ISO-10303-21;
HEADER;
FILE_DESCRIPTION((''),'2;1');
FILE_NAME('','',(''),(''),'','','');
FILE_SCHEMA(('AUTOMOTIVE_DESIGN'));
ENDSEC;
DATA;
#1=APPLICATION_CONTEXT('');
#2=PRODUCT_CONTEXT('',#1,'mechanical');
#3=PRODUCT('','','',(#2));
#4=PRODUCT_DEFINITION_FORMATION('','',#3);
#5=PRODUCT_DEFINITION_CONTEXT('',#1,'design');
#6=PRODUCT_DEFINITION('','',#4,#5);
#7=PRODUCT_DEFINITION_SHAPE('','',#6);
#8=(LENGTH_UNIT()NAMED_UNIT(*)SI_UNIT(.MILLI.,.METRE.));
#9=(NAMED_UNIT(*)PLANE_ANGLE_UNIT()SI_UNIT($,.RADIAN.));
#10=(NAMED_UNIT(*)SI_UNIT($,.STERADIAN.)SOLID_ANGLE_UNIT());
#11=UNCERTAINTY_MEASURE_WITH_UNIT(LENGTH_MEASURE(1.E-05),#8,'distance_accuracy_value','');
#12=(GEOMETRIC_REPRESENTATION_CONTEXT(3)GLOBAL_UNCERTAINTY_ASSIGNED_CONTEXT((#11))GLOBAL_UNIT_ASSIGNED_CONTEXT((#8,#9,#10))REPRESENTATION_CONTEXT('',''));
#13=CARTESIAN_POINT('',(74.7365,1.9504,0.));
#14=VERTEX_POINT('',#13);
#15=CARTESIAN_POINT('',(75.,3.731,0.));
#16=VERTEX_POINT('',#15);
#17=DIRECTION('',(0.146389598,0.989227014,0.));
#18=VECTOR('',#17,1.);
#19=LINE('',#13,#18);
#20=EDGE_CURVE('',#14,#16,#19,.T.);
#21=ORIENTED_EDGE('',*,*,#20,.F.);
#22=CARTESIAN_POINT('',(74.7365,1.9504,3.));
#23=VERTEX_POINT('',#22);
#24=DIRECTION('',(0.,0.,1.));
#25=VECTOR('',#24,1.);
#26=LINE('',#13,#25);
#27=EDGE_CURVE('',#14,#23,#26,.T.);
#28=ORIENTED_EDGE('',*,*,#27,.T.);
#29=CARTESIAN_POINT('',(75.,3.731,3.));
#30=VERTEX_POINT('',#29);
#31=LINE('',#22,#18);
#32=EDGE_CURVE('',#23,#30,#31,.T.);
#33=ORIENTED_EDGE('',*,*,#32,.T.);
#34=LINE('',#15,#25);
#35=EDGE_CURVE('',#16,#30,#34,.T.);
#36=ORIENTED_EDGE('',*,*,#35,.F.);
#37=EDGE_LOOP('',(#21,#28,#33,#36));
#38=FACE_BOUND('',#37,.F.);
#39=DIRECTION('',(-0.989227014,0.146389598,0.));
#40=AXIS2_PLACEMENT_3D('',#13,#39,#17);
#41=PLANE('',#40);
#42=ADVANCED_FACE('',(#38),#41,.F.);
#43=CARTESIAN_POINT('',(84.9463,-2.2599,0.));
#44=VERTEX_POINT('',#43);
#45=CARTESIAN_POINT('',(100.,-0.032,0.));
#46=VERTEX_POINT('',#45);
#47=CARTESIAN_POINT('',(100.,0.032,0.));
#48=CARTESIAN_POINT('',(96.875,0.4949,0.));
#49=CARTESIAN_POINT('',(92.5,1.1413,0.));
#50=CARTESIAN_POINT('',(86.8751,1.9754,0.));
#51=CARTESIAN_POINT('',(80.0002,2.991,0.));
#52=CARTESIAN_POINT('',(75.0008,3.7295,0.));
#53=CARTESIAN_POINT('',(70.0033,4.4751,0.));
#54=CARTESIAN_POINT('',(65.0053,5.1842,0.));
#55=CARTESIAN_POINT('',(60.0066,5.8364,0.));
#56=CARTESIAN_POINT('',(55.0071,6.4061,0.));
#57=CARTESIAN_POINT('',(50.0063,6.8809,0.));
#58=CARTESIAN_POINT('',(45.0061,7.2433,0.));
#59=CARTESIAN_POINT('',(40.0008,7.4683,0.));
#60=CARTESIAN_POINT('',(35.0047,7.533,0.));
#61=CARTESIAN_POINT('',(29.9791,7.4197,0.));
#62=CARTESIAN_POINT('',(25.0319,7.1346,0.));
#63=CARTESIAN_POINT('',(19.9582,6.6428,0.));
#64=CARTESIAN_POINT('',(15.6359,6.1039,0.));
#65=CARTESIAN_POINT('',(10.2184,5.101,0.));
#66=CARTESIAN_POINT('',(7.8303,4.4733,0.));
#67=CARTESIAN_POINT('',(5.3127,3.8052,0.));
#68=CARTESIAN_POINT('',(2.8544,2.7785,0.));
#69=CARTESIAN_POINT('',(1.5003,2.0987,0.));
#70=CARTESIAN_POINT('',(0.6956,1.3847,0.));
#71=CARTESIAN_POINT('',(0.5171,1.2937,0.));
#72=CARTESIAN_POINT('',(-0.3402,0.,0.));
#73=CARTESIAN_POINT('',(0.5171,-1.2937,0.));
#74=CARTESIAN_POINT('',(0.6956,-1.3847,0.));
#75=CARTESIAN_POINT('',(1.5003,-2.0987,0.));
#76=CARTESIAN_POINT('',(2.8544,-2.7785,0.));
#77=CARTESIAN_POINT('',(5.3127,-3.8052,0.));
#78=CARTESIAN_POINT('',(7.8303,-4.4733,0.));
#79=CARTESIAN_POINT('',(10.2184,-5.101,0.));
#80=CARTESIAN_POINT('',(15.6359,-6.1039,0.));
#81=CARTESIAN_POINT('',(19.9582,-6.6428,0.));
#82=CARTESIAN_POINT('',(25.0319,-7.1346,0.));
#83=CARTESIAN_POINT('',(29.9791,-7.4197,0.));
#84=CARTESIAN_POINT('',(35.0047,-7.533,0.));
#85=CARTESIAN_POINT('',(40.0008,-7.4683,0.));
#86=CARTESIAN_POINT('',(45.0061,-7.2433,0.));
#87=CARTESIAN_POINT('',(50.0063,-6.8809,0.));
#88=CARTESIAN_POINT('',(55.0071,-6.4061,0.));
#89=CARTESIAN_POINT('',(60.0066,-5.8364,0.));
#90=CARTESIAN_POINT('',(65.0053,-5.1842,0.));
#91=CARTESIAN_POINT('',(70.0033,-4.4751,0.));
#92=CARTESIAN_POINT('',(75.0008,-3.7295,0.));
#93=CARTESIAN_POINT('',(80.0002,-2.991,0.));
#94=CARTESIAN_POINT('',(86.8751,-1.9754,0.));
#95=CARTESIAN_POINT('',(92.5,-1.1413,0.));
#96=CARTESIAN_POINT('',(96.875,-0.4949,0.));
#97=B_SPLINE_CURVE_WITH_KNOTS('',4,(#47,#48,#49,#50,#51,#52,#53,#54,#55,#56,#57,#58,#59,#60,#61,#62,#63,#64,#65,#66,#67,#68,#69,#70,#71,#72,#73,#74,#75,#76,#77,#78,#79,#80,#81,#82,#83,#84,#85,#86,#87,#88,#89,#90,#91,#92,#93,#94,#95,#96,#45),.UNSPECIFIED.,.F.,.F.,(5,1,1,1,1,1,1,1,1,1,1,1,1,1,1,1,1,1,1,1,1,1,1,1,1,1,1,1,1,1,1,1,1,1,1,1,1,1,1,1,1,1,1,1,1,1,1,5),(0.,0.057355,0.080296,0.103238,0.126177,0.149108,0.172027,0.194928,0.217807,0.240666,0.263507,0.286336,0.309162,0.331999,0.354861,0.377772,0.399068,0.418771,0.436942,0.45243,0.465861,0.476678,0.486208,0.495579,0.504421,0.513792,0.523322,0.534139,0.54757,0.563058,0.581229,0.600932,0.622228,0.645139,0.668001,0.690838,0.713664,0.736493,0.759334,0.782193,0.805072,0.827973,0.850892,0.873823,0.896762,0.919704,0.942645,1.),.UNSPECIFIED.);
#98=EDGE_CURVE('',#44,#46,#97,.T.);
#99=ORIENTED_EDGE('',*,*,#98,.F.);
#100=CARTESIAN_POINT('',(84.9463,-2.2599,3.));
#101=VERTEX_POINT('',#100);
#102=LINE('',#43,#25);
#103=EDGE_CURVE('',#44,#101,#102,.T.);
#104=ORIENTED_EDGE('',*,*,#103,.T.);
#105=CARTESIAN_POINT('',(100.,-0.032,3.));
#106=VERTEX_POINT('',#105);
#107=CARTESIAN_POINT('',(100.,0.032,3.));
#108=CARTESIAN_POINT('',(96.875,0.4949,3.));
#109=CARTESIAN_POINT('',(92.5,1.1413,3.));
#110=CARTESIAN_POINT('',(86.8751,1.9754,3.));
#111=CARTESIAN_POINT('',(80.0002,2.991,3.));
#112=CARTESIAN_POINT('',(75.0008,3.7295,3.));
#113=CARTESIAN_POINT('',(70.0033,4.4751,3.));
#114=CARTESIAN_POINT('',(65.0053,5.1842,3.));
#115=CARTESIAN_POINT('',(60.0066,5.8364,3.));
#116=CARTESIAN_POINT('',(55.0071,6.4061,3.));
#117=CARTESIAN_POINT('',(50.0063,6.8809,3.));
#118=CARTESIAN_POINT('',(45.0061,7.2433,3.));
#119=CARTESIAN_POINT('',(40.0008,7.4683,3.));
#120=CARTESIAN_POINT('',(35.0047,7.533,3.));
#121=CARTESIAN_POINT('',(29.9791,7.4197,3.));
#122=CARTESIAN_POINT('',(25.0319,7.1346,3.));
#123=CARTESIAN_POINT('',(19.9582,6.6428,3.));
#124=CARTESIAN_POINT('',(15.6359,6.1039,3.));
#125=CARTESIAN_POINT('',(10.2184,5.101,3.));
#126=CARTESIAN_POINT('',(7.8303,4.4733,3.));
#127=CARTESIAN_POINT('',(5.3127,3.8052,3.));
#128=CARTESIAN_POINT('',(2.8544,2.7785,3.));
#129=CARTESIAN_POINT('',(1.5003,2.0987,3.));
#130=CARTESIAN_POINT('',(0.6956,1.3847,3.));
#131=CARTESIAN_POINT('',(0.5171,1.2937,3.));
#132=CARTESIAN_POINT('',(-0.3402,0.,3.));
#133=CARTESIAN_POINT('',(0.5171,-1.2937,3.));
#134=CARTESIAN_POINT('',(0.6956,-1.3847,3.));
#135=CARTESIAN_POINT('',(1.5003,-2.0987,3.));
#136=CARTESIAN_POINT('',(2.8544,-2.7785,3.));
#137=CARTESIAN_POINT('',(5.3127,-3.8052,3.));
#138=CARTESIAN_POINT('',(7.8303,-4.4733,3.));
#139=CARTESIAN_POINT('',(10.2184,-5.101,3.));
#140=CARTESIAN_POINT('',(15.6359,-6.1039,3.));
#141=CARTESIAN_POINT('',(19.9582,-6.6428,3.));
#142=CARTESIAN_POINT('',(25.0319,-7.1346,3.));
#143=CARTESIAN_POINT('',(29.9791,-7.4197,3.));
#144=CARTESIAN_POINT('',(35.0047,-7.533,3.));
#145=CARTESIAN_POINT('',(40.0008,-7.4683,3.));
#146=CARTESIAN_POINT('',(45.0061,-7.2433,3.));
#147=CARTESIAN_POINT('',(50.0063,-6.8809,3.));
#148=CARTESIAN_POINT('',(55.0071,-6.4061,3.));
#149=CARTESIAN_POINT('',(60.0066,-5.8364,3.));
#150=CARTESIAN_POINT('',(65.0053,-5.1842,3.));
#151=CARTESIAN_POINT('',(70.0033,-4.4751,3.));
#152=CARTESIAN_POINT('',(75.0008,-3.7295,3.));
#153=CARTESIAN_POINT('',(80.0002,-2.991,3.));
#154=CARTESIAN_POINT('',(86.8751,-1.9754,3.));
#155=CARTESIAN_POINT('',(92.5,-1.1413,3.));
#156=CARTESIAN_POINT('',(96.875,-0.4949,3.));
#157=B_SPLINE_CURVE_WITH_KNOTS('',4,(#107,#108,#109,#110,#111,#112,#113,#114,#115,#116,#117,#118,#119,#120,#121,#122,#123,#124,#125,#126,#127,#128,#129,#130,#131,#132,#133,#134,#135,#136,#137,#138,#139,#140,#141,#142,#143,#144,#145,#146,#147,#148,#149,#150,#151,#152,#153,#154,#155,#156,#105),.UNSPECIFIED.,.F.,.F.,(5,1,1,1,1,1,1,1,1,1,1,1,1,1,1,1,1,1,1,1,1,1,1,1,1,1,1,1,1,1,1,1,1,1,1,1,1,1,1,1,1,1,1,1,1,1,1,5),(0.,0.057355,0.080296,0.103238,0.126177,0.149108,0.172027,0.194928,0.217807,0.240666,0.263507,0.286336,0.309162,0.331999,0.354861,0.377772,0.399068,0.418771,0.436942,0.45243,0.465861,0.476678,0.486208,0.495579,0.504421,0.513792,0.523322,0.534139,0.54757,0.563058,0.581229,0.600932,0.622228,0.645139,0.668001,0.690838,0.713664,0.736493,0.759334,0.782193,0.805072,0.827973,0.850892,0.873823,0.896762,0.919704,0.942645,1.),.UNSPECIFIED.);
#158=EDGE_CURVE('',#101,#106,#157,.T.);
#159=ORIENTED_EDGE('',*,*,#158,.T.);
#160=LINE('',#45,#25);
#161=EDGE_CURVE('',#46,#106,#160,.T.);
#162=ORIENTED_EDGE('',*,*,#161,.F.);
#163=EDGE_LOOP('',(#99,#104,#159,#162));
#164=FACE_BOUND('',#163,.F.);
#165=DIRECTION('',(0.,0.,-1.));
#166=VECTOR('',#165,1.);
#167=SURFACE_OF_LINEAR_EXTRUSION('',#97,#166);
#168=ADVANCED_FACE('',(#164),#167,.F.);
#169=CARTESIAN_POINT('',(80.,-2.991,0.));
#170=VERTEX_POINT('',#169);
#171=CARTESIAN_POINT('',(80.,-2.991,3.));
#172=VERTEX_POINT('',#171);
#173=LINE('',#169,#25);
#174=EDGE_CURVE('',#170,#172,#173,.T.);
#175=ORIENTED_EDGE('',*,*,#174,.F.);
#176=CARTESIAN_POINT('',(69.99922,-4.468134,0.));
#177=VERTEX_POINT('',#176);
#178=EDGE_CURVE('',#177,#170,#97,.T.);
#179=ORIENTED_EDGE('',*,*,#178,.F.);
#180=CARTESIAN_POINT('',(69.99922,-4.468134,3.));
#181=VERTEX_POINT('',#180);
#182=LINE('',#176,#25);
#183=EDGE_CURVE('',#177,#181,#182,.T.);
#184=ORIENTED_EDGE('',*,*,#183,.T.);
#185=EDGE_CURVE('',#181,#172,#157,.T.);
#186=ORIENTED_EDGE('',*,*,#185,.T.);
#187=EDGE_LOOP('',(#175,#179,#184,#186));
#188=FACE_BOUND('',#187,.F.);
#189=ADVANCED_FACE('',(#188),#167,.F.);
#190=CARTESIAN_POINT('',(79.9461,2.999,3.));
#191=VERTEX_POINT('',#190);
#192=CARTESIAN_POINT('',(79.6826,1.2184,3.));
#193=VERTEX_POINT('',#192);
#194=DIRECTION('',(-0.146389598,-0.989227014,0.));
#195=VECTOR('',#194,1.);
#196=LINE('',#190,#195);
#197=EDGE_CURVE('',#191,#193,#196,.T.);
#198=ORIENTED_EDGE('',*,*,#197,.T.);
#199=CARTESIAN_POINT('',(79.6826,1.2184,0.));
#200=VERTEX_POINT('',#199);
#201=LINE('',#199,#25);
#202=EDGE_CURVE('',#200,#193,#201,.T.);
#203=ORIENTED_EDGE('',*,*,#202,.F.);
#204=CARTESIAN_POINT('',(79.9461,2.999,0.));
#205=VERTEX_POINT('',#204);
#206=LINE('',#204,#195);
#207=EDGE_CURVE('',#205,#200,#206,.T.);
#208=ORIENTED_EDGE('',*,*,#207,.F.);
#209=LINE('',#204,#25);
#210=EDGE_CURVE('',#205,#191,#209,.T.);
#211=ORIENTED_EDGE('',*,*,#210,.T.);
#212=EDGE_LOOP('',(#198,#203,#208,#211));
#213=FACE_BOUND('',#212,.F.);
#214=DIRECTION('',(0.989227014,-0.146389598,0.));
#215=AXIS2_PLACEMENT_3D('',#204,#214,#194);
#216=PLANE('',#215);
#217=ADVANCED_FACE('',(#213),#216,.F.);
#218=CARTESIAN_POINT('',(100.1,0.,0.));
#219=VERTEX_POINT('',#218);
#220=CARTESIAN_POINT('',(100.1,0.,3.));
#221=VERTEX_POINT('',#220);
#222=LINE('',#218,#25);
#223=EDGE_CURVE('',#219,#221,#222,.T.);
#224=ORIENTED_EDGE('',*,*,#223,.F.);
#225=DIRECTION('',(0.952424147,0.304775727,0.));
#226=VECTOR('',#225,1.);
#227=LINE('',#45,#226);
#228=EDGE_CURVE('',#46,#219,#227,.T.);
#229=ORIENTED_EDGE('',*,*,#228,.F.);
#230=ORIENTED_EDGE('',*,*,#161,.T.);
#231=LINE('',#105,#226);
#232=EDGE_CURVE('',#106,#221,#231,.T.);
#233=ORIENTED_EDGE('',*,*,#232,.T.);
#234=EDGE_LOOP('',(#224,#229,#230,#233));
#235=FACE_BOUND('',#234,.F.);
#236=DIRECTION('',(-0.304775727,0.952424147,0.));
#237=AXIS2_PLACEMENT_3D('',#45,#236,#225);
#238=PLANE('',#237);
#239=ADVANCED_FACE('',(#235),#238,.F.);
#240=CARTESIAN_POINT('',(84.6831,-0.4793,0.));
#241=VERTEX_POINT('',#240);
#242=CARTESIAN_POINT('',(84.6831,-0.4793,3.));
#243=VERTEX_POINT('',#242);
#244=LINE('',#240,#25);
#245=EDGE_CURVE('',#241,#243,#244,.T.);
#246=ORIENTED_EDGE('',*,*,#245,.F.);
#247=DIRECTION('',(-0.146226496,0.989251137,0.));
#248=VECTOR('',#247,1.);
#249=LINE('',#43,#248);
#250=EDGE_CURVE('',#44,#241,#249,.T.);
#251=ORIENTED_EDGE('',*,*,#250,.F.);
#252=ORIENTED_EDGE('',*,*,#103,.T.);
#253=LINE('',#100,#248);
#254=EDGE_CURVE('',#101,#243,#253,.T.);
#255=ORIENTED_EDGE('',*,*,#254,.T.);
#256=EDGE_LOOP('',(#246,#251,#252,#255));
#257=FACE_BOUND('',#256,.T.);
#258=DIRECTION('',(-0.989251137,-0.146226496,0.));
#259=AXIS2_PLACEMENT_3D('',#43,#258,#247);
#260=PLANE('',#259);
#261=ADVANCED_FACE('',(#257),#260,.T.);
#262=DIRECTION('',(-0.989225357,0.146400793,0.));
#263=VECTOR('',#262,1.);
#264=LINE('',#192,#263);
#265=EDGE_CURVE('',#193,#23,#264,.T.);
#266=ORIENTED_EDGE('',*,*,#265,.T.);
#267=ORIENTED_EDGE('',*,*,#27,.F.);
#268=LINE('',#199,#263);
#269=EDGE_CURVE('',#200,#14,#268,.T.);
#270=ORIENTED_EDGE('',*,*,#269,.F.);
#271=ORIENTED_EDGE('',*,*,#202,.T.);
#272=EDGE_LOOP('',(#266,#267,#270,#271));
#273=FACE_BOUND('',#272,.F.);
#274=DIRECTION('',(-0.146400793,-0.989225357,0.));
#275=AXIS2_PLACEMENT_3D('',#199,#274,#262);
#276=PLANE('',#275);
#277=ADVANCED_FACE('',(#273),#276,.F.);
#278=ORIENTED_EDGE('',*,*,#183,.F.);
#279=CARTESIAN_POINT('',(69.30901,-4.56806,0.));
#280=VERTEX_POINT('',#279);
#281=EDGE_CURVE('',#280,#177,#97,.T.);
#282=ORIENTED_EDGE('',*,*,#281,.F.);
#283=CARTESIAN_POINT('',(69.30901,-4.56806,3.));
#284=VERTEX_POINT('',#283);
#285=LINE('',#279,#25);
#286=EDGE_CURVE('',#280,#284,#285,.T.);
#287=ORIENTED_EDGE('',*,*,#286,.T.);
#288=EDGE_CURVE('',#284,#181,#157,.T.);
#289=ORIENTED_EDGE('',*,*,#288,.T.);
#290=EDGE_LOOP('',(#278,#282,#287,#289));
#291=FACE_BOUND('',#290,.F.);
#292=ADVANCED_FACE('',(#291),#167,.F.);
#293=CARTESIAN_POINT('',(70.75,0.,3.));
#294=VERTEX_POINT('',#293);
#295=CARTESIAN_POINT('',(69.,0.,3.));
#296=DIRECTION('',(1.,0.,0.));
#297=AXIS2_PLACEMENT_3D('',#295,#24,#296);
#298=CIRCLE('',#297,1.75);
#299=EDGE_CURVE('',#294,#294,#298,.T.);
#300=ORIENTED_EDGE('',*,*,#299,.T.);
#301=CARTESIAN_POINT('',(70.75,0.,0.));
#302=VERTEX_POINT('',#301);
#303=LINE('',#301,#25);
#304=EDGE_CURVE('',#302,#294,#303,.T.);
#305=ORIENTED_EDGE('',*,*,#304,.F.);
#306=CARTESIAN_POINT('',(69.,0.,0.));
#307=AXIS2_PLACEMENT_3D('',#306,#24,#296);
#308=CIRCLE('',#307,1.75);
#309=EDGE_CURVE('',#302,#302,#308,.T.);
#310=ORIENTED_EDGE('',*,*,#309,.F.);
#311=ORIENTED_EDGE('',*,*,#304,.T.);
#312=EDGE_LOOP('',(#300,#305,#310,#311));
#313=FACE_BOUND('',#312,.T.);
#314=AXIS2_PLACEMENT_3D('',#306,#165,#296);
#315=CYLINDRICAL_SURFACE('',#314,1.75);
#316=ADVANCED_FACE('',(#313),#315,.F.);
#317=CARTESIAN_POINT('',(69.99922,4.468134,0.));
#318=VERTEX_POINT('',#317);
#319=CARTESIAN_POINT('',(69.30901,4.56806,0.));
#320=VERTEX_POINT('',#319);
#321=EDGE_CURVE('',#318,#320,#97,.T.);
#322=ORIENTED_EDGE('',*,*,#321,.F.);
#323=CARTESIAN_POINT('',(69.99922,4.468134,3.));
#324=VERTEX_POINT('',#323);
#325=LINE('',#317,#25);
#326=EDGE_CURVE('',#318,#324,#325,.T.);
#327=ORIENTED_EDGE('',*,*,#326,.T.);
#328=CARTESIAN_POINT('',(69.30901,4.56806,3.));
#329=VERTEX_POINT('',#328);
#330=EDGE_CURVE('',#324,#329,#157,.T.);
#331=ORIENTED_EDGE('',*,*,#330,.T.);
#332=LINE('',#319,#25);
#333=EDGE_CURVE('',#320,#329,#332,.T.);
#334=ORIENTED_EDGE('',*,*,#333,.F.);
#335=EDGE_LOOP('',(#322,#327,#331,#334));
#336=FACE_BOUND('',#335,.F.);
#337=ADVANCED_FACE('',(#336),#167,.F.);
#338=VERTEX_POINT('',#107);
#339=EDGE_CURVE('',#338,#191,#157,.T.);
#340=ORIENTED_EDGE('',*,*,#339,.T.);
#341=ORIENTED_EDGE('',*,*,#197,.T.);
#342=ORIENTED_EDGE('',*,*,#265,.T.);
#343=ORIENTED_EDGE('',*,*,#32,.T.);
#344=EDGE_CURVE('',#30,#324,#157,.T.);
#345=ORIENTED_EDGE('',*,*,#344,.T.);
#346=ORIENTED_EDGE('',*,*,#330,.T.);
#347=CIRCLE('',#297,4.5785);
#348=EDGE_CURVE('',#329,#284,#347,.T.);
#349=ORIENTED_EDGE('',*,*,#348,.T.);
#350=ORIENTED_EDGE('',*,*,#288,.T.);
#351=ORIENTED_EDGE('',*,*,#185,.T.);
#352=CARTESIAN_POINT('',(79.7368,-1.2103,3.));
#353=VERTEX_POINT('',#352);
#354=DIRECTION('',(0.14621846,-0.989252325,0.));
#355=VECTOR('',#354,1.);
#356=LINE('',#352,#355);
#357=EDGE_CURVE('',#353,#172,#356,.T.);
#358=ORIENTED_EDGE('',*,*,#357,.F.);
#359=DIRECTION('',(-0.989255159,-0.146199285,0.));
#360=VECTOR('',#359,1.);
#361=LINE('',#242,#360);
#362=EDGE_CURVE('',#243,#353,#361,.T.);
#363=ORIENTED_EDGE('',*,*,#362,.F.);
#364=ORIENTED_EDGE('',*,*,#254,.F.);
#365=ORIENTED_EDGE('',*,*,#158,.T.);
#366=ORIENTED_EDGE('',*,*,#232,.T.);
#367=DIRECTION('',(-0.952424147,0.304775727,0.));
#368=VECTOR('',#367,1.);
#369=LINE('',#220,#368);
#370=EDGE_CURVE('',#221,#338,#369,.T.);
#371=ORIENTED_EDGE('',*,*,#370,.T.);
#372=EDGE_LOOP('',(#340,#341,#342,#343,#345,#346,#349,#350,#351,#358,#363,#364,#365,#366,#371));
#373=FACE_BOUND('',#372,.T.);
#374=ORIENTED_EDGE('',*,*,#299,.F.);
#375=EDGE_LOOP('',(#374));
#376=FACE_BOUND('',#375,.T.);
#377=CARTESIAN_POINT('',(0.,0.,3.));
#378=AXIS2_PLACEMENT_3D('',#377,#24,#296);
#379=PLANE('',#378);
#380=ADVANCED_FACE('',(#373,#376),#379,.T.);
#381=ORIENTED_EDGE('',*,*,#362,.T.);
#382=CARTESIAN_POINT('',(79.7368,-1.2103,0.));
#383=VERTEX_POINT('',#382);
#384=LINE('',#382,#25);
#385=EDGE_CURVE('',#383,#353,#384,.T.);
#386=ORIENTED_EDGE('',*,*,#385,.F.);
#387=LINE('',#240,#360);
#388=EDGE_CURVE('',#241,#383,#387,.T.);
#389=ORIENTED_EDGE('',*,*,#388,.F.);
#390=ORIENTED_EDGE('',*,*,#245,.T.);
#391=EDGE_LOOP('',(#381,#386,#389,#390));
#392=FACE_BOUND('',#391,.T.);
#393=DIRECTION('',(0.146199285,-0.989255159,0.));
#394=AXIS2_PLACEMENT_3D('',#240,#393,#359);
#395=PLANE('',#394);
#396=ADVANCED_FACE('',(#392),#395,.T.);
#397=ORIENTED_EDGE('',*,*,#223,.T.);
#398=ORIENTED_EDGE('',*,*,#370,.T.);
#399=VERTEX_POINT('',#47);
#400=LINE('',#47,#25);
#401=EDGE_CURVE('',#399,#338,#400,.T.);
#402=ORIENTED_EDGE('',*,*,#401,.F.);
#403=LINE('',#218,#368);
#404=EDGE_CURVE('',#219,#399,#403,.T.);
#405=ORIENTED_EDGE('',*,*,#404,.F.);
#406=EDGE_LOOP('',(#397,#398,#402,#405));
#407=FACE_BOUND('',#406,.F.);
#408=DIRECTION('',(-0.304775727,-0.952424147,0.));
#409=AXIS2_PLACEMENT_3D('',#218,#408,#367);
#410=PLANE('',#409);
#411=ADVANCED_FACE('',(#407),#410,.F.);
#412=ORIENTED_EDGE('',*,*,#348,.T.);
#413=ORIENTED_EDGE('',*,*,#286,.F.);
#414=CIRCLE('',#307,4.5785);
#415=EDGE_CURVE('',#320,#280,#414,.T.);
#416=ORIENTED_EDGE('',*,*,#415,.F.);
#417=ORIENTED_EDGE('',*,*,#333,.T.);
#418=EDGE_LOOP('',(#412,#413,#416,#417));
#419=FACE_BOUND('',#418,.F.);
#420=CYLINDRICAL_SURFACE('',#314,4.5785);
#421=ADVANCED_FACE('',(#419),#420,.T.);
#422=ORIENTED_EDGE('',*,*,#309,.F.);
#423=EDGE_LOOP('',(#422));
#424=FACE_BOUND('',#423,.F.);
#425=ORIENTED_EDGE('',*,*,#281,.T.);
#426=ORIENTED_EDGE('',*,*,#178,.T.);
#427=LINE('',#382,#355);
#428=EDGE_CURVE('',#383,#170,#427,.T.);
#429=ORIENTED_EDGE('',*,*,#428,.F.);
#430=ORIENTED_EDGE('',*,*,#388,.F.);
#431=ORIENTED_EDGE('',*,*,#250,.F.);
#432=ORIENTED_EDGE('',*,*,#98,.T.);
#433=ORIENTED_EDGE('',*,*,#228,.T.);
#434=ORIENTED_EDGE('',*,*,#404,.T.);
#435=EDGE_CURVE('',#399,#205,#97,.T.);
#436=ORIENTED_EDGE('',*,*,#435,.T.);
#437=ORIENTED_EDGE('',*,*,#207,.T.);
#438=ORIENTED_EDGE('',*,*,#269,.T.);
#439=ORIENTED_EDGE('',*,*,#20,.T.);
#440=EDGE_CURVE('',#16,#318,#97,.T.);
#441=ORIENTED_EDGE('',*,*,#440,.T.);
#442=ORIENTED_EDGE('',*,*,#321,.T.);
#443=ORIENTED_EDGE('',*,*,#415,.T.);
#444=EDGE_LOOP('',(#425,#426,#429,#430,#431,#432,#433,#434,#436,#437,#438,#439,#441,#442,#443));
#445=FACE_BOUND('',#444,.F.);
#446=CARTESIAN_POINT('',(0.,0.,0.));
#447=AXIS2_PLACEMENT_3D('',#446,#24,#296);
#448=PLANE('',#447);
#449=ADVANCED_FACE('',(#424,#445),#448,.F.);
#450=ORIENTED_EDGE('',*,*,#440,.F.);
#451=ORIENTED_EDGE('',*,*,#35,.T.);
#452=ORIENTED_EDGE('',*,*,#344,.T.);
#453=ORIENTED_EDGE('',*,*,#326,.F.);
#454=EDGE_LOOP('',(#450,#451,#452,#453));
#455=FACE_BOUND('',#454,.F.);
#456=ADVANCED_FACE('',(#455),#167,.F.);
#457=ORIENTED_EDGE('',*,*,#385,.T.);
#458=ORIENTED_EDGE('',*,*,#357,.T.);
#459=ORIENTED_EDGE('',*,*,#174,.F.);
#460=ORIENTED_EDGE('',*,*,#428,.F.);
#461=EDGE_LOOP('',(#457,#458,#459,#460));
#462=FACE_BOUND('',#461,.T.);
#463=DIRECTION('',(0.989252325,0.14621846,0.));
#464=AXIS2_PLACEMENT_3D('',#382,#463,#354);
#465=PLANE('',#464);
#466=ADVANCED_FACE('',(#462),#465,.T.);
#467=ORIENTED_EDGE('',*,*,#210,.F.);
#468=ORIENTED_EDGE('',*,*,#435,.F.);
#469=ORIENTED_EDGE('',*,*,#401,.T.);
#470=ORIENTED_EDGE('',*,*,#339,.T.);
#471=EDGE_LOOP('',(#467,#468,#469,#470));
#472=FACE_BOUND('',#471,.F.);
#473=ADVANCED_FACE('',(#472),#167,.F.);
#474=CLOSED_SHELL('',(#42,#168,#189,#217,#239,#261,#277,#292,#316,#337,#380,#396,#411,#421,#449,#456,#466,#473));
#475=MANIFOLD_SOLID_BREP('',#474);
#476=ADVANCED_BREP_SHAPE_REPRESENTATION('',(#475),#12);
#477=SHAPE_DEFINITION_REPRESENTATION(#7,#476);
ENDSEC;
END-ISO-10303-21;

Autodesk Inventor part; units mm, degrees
ref_plane "YZ Plane" through (0, 0, 0) normal (1, 0, 0) x (0, 1, 0)
ref_plane "XZ Plane" through (0, 0, 0) normal (0, 1, 0) x (-1, 0, 0)
ref_plane "XY Plane" through (0, 0, 0) normal (0, 0, 1) x (1, 0, 0)
sketch "Sketch1" plane through (0, 0, 0) normal (0, 0, 1) x (1, 0, 0)
  spline S0 degree 4 poles (100, 0.032) (96.875, 0.4949) (92.5, 1.1413) (86.8751, 1.9754) (80.0002, 2.991) (75.0008, 3.7295) (70.0033, 4.4751) (65.0053, 5.1842) (60.0066, 5.8364) (55.0071, 6.4061) (50.0063, 6.8809) (45.0061, 7.2433) (40.0008, 7.4683) (35.0047, 7.533) (29.9791, 7.4197) (25.0319, 7.1346) (19.9582, 6.6428) (15.6359, 6.1039) (10.2184, 5.101) (7.8303, 4.4733) (5.3127, 3.8052) (2.8544, 2.7785) (1.5003, 2.0987) (0.6956, 1.3847) (0.5171, 1.2937) (-0.3402, 0) (0.5171, -1.2937) (0.6956, -1.3847) (1.5003, -2.0987) (2.8544, -2.7785) (5.3127, -3.8052) (7.8303, -4.4733) (10.2184, -5.101) (15.6359, -6.1039) (19.9582, -6.6428) (25.0319, -7.1346) (29.9791, -7.4197) (35.0047, -7.533) (40.0008, -7.4683) (45.0061, -7.2433) (50.0063, -6.8809) (55.0071, -6.4061) (60.0066, -5.8364) (65.0053, -5.1842) (70.0033, -4.4751) (75.0008, -3.7295) (80.0002, -2.991) (86.8751, -1.9754) (92.5, -1.1413) (96.875, -0.4949) (100, -0.032) knots 0 0 0 0 0 0.057355 0.080296 0.103238 0.126177 0.149108 0.172027 0.194928 0.217807 0.240666 0.263507 0.286336 0.309162 0.331999 0.354861 0.377772 0.399068 0.418771 0.436942 0.45243 0.465861 0.476678 0.486208 0.495579 0.504421 0.513792 0.523322 0.534139 0.54757 0.563058 0.581229 0.600932 0.622228 0.645139 0.668001 0.690838 0.713664 0.736493 0.759334 0.782193 0.805072 0.827973 0.850892 0.873823 0.896762 0.919704 0.942645 1 1 1 1 1
  circle A0 centre (26, 0) radius 2.5
  circle A1 centre (4, 0) radius 1.75
  circle A2 centre (69, 0) radius 1.75
  spline S1 degree 5 poles (8.9035, 0.2296) (9.2434, 0.8899) (11.3643, 2.0291) (18.2315, 3.5428) (20.2721, 2.9595) (23.0162, -3.0821) (16.5301, -2.3219) (12.7289, -2.0151) (9.2115, -1.112) (8.6356, -0.2907) (8.9035, 0.2296) knots 0 0 0 0 0 0 0.227523 0.364622 0.543771 0.698813 0.820709 1 1 1 1 1 1
  spline S2 degree 5 poles (31.2707, 2.5) (32.7339, 3.9218) (37.2285, 5.1212) (48.2817, 2.605) (61.2094, 6.6741) (64.3828, -5.6022) (45.0929, -1.179) (33.1446, -7.1128) (29.4849, -1.5962) (30.0097, 1.2748) (31.2707, 2.5) knots 0 0 0 0 0 0 0.215917 0.355077 0.532597 0.692902 0.813935 1 1 1 1 1 1
  line L0 (100, -0.032) -> (100.1, 0)
  line L1 (100.1, 0) -> (100, 0.032)
  circle A3 centre (69, 0) radius 4.5785
  line L2 (75, 3.731) -> (79.9461, 2.999)
  line L3 (79.9461, 2.999) -> (79.6826, 1.2184)
  line L4 (79.6826, 1.2184) -> (74.7365, 1.9504)
  line L5 (74.7365, 1.9504) -> (75, 3.731)
  line L6 (80, -2.991) -> (84.9463, -2.2599)
  line L7 (84.9463, -2.2599) -> (84.6831, -0.4793)
  line L8 (84.6831, -0.4793) -> (79.7368, -1.2103)
  line L9 (79.7368, -1.2103) -> (80, -2.991)
  point P0 (0, 0)
  point P1 (95, 0.772)
  point P2 (90, 1.512)
  point P3 (85, 2.252)
  point P4 (80, 2.991)
  point P5 (70, 4.468)
  point P6 (65, 5.173)
  point P7 (60, 5.82)
  point P8 (55, 6.387)
  point P9 (50, 6.858)
  point P10 (45, 7.215)
  point P11 (40, 7.435)
  point P12 (35, 7.496)
  point P13 (30, 7.384)
  point P14 (25, 7.091)
  point P15 (20, 6.619)
  point P16 (15, 5.942)
  point P17 (10, 4.997)
  point P18 (7.5, 4.382)
  point P19 (5, 3.618)
  point P20 (2.5, 2.579)
  point P21 (1.25, 1.844)
  point P22 (0.75, 1.448)
  point P23 (0.5, 1.203)
  point P24 (0, 0)
  point P25 (0.5, -1.203)
  point P26 (0.75, -1.448)
  point P27 (1.25, -1.844)
  point P28 (2.5, -2.579)
  point P29 (5, -3.618)
  point P30 (7.5, -4.382)
  point P31 (10, -4.997)
  point P32 (15, -5.942)
  point P33 (20, -6.619)
  point P34 (25, -7.091)
  point P35 (30, -7.384)
  point P36 (35, -7.496)
  point P37 (40, -7.435)
  point P38 (45, -7.215)
  point P39 (50, -6.858)
  point P40 (55, -6.387)
  point P41 (60, -5.82)
  point P42 (65, -5.173)
  point P43 (70, -4.468)
  point P44 (75, -3.731)
  point P45 (80, -2.991)
  point P46 (85, -2.252)
  point P47 (90, -1.512)
  point P48 (95, -0.772)
  point P49 (20.5674, 1.203)
  point P50 (21.0369, -1.512)
  point P51 (16.8986, -2.3616)
  point P52 (10, -1.1013)
  point P53 (59.6934, 1.7909)
  point P54 (60.4025, -1.203)
  point P55 (44.4534, -3.7857)
  point P56 (31.0165, -2.1426)
  point P57 (70, -4.468)
  point P58 (69.3082, 4.5682)
  point P59 (69.3082, -4.5682)
  dimension "d0" = 5
  dimension "d1" = 3.5
  dimension "d2" = 3.5
  dimension "d3" = 26
  dimension "d4" = 22
  dimension "d5" = 43
  dimension "d6" = 0.1
  dimension "d9" = 5
  dimension "d10" = 1.8
  dimension "d11" = 5
  dimension "d12" = 1.8
extrude "Extrusion1" add sketch "Sketch1" along normal blind 3 contours L1 L0 S0 L7 L8 L9 A3 L5 L4 L3 | A3 S0 picked at (65.4059, -0.3539)
properties part number "Tlotka"
